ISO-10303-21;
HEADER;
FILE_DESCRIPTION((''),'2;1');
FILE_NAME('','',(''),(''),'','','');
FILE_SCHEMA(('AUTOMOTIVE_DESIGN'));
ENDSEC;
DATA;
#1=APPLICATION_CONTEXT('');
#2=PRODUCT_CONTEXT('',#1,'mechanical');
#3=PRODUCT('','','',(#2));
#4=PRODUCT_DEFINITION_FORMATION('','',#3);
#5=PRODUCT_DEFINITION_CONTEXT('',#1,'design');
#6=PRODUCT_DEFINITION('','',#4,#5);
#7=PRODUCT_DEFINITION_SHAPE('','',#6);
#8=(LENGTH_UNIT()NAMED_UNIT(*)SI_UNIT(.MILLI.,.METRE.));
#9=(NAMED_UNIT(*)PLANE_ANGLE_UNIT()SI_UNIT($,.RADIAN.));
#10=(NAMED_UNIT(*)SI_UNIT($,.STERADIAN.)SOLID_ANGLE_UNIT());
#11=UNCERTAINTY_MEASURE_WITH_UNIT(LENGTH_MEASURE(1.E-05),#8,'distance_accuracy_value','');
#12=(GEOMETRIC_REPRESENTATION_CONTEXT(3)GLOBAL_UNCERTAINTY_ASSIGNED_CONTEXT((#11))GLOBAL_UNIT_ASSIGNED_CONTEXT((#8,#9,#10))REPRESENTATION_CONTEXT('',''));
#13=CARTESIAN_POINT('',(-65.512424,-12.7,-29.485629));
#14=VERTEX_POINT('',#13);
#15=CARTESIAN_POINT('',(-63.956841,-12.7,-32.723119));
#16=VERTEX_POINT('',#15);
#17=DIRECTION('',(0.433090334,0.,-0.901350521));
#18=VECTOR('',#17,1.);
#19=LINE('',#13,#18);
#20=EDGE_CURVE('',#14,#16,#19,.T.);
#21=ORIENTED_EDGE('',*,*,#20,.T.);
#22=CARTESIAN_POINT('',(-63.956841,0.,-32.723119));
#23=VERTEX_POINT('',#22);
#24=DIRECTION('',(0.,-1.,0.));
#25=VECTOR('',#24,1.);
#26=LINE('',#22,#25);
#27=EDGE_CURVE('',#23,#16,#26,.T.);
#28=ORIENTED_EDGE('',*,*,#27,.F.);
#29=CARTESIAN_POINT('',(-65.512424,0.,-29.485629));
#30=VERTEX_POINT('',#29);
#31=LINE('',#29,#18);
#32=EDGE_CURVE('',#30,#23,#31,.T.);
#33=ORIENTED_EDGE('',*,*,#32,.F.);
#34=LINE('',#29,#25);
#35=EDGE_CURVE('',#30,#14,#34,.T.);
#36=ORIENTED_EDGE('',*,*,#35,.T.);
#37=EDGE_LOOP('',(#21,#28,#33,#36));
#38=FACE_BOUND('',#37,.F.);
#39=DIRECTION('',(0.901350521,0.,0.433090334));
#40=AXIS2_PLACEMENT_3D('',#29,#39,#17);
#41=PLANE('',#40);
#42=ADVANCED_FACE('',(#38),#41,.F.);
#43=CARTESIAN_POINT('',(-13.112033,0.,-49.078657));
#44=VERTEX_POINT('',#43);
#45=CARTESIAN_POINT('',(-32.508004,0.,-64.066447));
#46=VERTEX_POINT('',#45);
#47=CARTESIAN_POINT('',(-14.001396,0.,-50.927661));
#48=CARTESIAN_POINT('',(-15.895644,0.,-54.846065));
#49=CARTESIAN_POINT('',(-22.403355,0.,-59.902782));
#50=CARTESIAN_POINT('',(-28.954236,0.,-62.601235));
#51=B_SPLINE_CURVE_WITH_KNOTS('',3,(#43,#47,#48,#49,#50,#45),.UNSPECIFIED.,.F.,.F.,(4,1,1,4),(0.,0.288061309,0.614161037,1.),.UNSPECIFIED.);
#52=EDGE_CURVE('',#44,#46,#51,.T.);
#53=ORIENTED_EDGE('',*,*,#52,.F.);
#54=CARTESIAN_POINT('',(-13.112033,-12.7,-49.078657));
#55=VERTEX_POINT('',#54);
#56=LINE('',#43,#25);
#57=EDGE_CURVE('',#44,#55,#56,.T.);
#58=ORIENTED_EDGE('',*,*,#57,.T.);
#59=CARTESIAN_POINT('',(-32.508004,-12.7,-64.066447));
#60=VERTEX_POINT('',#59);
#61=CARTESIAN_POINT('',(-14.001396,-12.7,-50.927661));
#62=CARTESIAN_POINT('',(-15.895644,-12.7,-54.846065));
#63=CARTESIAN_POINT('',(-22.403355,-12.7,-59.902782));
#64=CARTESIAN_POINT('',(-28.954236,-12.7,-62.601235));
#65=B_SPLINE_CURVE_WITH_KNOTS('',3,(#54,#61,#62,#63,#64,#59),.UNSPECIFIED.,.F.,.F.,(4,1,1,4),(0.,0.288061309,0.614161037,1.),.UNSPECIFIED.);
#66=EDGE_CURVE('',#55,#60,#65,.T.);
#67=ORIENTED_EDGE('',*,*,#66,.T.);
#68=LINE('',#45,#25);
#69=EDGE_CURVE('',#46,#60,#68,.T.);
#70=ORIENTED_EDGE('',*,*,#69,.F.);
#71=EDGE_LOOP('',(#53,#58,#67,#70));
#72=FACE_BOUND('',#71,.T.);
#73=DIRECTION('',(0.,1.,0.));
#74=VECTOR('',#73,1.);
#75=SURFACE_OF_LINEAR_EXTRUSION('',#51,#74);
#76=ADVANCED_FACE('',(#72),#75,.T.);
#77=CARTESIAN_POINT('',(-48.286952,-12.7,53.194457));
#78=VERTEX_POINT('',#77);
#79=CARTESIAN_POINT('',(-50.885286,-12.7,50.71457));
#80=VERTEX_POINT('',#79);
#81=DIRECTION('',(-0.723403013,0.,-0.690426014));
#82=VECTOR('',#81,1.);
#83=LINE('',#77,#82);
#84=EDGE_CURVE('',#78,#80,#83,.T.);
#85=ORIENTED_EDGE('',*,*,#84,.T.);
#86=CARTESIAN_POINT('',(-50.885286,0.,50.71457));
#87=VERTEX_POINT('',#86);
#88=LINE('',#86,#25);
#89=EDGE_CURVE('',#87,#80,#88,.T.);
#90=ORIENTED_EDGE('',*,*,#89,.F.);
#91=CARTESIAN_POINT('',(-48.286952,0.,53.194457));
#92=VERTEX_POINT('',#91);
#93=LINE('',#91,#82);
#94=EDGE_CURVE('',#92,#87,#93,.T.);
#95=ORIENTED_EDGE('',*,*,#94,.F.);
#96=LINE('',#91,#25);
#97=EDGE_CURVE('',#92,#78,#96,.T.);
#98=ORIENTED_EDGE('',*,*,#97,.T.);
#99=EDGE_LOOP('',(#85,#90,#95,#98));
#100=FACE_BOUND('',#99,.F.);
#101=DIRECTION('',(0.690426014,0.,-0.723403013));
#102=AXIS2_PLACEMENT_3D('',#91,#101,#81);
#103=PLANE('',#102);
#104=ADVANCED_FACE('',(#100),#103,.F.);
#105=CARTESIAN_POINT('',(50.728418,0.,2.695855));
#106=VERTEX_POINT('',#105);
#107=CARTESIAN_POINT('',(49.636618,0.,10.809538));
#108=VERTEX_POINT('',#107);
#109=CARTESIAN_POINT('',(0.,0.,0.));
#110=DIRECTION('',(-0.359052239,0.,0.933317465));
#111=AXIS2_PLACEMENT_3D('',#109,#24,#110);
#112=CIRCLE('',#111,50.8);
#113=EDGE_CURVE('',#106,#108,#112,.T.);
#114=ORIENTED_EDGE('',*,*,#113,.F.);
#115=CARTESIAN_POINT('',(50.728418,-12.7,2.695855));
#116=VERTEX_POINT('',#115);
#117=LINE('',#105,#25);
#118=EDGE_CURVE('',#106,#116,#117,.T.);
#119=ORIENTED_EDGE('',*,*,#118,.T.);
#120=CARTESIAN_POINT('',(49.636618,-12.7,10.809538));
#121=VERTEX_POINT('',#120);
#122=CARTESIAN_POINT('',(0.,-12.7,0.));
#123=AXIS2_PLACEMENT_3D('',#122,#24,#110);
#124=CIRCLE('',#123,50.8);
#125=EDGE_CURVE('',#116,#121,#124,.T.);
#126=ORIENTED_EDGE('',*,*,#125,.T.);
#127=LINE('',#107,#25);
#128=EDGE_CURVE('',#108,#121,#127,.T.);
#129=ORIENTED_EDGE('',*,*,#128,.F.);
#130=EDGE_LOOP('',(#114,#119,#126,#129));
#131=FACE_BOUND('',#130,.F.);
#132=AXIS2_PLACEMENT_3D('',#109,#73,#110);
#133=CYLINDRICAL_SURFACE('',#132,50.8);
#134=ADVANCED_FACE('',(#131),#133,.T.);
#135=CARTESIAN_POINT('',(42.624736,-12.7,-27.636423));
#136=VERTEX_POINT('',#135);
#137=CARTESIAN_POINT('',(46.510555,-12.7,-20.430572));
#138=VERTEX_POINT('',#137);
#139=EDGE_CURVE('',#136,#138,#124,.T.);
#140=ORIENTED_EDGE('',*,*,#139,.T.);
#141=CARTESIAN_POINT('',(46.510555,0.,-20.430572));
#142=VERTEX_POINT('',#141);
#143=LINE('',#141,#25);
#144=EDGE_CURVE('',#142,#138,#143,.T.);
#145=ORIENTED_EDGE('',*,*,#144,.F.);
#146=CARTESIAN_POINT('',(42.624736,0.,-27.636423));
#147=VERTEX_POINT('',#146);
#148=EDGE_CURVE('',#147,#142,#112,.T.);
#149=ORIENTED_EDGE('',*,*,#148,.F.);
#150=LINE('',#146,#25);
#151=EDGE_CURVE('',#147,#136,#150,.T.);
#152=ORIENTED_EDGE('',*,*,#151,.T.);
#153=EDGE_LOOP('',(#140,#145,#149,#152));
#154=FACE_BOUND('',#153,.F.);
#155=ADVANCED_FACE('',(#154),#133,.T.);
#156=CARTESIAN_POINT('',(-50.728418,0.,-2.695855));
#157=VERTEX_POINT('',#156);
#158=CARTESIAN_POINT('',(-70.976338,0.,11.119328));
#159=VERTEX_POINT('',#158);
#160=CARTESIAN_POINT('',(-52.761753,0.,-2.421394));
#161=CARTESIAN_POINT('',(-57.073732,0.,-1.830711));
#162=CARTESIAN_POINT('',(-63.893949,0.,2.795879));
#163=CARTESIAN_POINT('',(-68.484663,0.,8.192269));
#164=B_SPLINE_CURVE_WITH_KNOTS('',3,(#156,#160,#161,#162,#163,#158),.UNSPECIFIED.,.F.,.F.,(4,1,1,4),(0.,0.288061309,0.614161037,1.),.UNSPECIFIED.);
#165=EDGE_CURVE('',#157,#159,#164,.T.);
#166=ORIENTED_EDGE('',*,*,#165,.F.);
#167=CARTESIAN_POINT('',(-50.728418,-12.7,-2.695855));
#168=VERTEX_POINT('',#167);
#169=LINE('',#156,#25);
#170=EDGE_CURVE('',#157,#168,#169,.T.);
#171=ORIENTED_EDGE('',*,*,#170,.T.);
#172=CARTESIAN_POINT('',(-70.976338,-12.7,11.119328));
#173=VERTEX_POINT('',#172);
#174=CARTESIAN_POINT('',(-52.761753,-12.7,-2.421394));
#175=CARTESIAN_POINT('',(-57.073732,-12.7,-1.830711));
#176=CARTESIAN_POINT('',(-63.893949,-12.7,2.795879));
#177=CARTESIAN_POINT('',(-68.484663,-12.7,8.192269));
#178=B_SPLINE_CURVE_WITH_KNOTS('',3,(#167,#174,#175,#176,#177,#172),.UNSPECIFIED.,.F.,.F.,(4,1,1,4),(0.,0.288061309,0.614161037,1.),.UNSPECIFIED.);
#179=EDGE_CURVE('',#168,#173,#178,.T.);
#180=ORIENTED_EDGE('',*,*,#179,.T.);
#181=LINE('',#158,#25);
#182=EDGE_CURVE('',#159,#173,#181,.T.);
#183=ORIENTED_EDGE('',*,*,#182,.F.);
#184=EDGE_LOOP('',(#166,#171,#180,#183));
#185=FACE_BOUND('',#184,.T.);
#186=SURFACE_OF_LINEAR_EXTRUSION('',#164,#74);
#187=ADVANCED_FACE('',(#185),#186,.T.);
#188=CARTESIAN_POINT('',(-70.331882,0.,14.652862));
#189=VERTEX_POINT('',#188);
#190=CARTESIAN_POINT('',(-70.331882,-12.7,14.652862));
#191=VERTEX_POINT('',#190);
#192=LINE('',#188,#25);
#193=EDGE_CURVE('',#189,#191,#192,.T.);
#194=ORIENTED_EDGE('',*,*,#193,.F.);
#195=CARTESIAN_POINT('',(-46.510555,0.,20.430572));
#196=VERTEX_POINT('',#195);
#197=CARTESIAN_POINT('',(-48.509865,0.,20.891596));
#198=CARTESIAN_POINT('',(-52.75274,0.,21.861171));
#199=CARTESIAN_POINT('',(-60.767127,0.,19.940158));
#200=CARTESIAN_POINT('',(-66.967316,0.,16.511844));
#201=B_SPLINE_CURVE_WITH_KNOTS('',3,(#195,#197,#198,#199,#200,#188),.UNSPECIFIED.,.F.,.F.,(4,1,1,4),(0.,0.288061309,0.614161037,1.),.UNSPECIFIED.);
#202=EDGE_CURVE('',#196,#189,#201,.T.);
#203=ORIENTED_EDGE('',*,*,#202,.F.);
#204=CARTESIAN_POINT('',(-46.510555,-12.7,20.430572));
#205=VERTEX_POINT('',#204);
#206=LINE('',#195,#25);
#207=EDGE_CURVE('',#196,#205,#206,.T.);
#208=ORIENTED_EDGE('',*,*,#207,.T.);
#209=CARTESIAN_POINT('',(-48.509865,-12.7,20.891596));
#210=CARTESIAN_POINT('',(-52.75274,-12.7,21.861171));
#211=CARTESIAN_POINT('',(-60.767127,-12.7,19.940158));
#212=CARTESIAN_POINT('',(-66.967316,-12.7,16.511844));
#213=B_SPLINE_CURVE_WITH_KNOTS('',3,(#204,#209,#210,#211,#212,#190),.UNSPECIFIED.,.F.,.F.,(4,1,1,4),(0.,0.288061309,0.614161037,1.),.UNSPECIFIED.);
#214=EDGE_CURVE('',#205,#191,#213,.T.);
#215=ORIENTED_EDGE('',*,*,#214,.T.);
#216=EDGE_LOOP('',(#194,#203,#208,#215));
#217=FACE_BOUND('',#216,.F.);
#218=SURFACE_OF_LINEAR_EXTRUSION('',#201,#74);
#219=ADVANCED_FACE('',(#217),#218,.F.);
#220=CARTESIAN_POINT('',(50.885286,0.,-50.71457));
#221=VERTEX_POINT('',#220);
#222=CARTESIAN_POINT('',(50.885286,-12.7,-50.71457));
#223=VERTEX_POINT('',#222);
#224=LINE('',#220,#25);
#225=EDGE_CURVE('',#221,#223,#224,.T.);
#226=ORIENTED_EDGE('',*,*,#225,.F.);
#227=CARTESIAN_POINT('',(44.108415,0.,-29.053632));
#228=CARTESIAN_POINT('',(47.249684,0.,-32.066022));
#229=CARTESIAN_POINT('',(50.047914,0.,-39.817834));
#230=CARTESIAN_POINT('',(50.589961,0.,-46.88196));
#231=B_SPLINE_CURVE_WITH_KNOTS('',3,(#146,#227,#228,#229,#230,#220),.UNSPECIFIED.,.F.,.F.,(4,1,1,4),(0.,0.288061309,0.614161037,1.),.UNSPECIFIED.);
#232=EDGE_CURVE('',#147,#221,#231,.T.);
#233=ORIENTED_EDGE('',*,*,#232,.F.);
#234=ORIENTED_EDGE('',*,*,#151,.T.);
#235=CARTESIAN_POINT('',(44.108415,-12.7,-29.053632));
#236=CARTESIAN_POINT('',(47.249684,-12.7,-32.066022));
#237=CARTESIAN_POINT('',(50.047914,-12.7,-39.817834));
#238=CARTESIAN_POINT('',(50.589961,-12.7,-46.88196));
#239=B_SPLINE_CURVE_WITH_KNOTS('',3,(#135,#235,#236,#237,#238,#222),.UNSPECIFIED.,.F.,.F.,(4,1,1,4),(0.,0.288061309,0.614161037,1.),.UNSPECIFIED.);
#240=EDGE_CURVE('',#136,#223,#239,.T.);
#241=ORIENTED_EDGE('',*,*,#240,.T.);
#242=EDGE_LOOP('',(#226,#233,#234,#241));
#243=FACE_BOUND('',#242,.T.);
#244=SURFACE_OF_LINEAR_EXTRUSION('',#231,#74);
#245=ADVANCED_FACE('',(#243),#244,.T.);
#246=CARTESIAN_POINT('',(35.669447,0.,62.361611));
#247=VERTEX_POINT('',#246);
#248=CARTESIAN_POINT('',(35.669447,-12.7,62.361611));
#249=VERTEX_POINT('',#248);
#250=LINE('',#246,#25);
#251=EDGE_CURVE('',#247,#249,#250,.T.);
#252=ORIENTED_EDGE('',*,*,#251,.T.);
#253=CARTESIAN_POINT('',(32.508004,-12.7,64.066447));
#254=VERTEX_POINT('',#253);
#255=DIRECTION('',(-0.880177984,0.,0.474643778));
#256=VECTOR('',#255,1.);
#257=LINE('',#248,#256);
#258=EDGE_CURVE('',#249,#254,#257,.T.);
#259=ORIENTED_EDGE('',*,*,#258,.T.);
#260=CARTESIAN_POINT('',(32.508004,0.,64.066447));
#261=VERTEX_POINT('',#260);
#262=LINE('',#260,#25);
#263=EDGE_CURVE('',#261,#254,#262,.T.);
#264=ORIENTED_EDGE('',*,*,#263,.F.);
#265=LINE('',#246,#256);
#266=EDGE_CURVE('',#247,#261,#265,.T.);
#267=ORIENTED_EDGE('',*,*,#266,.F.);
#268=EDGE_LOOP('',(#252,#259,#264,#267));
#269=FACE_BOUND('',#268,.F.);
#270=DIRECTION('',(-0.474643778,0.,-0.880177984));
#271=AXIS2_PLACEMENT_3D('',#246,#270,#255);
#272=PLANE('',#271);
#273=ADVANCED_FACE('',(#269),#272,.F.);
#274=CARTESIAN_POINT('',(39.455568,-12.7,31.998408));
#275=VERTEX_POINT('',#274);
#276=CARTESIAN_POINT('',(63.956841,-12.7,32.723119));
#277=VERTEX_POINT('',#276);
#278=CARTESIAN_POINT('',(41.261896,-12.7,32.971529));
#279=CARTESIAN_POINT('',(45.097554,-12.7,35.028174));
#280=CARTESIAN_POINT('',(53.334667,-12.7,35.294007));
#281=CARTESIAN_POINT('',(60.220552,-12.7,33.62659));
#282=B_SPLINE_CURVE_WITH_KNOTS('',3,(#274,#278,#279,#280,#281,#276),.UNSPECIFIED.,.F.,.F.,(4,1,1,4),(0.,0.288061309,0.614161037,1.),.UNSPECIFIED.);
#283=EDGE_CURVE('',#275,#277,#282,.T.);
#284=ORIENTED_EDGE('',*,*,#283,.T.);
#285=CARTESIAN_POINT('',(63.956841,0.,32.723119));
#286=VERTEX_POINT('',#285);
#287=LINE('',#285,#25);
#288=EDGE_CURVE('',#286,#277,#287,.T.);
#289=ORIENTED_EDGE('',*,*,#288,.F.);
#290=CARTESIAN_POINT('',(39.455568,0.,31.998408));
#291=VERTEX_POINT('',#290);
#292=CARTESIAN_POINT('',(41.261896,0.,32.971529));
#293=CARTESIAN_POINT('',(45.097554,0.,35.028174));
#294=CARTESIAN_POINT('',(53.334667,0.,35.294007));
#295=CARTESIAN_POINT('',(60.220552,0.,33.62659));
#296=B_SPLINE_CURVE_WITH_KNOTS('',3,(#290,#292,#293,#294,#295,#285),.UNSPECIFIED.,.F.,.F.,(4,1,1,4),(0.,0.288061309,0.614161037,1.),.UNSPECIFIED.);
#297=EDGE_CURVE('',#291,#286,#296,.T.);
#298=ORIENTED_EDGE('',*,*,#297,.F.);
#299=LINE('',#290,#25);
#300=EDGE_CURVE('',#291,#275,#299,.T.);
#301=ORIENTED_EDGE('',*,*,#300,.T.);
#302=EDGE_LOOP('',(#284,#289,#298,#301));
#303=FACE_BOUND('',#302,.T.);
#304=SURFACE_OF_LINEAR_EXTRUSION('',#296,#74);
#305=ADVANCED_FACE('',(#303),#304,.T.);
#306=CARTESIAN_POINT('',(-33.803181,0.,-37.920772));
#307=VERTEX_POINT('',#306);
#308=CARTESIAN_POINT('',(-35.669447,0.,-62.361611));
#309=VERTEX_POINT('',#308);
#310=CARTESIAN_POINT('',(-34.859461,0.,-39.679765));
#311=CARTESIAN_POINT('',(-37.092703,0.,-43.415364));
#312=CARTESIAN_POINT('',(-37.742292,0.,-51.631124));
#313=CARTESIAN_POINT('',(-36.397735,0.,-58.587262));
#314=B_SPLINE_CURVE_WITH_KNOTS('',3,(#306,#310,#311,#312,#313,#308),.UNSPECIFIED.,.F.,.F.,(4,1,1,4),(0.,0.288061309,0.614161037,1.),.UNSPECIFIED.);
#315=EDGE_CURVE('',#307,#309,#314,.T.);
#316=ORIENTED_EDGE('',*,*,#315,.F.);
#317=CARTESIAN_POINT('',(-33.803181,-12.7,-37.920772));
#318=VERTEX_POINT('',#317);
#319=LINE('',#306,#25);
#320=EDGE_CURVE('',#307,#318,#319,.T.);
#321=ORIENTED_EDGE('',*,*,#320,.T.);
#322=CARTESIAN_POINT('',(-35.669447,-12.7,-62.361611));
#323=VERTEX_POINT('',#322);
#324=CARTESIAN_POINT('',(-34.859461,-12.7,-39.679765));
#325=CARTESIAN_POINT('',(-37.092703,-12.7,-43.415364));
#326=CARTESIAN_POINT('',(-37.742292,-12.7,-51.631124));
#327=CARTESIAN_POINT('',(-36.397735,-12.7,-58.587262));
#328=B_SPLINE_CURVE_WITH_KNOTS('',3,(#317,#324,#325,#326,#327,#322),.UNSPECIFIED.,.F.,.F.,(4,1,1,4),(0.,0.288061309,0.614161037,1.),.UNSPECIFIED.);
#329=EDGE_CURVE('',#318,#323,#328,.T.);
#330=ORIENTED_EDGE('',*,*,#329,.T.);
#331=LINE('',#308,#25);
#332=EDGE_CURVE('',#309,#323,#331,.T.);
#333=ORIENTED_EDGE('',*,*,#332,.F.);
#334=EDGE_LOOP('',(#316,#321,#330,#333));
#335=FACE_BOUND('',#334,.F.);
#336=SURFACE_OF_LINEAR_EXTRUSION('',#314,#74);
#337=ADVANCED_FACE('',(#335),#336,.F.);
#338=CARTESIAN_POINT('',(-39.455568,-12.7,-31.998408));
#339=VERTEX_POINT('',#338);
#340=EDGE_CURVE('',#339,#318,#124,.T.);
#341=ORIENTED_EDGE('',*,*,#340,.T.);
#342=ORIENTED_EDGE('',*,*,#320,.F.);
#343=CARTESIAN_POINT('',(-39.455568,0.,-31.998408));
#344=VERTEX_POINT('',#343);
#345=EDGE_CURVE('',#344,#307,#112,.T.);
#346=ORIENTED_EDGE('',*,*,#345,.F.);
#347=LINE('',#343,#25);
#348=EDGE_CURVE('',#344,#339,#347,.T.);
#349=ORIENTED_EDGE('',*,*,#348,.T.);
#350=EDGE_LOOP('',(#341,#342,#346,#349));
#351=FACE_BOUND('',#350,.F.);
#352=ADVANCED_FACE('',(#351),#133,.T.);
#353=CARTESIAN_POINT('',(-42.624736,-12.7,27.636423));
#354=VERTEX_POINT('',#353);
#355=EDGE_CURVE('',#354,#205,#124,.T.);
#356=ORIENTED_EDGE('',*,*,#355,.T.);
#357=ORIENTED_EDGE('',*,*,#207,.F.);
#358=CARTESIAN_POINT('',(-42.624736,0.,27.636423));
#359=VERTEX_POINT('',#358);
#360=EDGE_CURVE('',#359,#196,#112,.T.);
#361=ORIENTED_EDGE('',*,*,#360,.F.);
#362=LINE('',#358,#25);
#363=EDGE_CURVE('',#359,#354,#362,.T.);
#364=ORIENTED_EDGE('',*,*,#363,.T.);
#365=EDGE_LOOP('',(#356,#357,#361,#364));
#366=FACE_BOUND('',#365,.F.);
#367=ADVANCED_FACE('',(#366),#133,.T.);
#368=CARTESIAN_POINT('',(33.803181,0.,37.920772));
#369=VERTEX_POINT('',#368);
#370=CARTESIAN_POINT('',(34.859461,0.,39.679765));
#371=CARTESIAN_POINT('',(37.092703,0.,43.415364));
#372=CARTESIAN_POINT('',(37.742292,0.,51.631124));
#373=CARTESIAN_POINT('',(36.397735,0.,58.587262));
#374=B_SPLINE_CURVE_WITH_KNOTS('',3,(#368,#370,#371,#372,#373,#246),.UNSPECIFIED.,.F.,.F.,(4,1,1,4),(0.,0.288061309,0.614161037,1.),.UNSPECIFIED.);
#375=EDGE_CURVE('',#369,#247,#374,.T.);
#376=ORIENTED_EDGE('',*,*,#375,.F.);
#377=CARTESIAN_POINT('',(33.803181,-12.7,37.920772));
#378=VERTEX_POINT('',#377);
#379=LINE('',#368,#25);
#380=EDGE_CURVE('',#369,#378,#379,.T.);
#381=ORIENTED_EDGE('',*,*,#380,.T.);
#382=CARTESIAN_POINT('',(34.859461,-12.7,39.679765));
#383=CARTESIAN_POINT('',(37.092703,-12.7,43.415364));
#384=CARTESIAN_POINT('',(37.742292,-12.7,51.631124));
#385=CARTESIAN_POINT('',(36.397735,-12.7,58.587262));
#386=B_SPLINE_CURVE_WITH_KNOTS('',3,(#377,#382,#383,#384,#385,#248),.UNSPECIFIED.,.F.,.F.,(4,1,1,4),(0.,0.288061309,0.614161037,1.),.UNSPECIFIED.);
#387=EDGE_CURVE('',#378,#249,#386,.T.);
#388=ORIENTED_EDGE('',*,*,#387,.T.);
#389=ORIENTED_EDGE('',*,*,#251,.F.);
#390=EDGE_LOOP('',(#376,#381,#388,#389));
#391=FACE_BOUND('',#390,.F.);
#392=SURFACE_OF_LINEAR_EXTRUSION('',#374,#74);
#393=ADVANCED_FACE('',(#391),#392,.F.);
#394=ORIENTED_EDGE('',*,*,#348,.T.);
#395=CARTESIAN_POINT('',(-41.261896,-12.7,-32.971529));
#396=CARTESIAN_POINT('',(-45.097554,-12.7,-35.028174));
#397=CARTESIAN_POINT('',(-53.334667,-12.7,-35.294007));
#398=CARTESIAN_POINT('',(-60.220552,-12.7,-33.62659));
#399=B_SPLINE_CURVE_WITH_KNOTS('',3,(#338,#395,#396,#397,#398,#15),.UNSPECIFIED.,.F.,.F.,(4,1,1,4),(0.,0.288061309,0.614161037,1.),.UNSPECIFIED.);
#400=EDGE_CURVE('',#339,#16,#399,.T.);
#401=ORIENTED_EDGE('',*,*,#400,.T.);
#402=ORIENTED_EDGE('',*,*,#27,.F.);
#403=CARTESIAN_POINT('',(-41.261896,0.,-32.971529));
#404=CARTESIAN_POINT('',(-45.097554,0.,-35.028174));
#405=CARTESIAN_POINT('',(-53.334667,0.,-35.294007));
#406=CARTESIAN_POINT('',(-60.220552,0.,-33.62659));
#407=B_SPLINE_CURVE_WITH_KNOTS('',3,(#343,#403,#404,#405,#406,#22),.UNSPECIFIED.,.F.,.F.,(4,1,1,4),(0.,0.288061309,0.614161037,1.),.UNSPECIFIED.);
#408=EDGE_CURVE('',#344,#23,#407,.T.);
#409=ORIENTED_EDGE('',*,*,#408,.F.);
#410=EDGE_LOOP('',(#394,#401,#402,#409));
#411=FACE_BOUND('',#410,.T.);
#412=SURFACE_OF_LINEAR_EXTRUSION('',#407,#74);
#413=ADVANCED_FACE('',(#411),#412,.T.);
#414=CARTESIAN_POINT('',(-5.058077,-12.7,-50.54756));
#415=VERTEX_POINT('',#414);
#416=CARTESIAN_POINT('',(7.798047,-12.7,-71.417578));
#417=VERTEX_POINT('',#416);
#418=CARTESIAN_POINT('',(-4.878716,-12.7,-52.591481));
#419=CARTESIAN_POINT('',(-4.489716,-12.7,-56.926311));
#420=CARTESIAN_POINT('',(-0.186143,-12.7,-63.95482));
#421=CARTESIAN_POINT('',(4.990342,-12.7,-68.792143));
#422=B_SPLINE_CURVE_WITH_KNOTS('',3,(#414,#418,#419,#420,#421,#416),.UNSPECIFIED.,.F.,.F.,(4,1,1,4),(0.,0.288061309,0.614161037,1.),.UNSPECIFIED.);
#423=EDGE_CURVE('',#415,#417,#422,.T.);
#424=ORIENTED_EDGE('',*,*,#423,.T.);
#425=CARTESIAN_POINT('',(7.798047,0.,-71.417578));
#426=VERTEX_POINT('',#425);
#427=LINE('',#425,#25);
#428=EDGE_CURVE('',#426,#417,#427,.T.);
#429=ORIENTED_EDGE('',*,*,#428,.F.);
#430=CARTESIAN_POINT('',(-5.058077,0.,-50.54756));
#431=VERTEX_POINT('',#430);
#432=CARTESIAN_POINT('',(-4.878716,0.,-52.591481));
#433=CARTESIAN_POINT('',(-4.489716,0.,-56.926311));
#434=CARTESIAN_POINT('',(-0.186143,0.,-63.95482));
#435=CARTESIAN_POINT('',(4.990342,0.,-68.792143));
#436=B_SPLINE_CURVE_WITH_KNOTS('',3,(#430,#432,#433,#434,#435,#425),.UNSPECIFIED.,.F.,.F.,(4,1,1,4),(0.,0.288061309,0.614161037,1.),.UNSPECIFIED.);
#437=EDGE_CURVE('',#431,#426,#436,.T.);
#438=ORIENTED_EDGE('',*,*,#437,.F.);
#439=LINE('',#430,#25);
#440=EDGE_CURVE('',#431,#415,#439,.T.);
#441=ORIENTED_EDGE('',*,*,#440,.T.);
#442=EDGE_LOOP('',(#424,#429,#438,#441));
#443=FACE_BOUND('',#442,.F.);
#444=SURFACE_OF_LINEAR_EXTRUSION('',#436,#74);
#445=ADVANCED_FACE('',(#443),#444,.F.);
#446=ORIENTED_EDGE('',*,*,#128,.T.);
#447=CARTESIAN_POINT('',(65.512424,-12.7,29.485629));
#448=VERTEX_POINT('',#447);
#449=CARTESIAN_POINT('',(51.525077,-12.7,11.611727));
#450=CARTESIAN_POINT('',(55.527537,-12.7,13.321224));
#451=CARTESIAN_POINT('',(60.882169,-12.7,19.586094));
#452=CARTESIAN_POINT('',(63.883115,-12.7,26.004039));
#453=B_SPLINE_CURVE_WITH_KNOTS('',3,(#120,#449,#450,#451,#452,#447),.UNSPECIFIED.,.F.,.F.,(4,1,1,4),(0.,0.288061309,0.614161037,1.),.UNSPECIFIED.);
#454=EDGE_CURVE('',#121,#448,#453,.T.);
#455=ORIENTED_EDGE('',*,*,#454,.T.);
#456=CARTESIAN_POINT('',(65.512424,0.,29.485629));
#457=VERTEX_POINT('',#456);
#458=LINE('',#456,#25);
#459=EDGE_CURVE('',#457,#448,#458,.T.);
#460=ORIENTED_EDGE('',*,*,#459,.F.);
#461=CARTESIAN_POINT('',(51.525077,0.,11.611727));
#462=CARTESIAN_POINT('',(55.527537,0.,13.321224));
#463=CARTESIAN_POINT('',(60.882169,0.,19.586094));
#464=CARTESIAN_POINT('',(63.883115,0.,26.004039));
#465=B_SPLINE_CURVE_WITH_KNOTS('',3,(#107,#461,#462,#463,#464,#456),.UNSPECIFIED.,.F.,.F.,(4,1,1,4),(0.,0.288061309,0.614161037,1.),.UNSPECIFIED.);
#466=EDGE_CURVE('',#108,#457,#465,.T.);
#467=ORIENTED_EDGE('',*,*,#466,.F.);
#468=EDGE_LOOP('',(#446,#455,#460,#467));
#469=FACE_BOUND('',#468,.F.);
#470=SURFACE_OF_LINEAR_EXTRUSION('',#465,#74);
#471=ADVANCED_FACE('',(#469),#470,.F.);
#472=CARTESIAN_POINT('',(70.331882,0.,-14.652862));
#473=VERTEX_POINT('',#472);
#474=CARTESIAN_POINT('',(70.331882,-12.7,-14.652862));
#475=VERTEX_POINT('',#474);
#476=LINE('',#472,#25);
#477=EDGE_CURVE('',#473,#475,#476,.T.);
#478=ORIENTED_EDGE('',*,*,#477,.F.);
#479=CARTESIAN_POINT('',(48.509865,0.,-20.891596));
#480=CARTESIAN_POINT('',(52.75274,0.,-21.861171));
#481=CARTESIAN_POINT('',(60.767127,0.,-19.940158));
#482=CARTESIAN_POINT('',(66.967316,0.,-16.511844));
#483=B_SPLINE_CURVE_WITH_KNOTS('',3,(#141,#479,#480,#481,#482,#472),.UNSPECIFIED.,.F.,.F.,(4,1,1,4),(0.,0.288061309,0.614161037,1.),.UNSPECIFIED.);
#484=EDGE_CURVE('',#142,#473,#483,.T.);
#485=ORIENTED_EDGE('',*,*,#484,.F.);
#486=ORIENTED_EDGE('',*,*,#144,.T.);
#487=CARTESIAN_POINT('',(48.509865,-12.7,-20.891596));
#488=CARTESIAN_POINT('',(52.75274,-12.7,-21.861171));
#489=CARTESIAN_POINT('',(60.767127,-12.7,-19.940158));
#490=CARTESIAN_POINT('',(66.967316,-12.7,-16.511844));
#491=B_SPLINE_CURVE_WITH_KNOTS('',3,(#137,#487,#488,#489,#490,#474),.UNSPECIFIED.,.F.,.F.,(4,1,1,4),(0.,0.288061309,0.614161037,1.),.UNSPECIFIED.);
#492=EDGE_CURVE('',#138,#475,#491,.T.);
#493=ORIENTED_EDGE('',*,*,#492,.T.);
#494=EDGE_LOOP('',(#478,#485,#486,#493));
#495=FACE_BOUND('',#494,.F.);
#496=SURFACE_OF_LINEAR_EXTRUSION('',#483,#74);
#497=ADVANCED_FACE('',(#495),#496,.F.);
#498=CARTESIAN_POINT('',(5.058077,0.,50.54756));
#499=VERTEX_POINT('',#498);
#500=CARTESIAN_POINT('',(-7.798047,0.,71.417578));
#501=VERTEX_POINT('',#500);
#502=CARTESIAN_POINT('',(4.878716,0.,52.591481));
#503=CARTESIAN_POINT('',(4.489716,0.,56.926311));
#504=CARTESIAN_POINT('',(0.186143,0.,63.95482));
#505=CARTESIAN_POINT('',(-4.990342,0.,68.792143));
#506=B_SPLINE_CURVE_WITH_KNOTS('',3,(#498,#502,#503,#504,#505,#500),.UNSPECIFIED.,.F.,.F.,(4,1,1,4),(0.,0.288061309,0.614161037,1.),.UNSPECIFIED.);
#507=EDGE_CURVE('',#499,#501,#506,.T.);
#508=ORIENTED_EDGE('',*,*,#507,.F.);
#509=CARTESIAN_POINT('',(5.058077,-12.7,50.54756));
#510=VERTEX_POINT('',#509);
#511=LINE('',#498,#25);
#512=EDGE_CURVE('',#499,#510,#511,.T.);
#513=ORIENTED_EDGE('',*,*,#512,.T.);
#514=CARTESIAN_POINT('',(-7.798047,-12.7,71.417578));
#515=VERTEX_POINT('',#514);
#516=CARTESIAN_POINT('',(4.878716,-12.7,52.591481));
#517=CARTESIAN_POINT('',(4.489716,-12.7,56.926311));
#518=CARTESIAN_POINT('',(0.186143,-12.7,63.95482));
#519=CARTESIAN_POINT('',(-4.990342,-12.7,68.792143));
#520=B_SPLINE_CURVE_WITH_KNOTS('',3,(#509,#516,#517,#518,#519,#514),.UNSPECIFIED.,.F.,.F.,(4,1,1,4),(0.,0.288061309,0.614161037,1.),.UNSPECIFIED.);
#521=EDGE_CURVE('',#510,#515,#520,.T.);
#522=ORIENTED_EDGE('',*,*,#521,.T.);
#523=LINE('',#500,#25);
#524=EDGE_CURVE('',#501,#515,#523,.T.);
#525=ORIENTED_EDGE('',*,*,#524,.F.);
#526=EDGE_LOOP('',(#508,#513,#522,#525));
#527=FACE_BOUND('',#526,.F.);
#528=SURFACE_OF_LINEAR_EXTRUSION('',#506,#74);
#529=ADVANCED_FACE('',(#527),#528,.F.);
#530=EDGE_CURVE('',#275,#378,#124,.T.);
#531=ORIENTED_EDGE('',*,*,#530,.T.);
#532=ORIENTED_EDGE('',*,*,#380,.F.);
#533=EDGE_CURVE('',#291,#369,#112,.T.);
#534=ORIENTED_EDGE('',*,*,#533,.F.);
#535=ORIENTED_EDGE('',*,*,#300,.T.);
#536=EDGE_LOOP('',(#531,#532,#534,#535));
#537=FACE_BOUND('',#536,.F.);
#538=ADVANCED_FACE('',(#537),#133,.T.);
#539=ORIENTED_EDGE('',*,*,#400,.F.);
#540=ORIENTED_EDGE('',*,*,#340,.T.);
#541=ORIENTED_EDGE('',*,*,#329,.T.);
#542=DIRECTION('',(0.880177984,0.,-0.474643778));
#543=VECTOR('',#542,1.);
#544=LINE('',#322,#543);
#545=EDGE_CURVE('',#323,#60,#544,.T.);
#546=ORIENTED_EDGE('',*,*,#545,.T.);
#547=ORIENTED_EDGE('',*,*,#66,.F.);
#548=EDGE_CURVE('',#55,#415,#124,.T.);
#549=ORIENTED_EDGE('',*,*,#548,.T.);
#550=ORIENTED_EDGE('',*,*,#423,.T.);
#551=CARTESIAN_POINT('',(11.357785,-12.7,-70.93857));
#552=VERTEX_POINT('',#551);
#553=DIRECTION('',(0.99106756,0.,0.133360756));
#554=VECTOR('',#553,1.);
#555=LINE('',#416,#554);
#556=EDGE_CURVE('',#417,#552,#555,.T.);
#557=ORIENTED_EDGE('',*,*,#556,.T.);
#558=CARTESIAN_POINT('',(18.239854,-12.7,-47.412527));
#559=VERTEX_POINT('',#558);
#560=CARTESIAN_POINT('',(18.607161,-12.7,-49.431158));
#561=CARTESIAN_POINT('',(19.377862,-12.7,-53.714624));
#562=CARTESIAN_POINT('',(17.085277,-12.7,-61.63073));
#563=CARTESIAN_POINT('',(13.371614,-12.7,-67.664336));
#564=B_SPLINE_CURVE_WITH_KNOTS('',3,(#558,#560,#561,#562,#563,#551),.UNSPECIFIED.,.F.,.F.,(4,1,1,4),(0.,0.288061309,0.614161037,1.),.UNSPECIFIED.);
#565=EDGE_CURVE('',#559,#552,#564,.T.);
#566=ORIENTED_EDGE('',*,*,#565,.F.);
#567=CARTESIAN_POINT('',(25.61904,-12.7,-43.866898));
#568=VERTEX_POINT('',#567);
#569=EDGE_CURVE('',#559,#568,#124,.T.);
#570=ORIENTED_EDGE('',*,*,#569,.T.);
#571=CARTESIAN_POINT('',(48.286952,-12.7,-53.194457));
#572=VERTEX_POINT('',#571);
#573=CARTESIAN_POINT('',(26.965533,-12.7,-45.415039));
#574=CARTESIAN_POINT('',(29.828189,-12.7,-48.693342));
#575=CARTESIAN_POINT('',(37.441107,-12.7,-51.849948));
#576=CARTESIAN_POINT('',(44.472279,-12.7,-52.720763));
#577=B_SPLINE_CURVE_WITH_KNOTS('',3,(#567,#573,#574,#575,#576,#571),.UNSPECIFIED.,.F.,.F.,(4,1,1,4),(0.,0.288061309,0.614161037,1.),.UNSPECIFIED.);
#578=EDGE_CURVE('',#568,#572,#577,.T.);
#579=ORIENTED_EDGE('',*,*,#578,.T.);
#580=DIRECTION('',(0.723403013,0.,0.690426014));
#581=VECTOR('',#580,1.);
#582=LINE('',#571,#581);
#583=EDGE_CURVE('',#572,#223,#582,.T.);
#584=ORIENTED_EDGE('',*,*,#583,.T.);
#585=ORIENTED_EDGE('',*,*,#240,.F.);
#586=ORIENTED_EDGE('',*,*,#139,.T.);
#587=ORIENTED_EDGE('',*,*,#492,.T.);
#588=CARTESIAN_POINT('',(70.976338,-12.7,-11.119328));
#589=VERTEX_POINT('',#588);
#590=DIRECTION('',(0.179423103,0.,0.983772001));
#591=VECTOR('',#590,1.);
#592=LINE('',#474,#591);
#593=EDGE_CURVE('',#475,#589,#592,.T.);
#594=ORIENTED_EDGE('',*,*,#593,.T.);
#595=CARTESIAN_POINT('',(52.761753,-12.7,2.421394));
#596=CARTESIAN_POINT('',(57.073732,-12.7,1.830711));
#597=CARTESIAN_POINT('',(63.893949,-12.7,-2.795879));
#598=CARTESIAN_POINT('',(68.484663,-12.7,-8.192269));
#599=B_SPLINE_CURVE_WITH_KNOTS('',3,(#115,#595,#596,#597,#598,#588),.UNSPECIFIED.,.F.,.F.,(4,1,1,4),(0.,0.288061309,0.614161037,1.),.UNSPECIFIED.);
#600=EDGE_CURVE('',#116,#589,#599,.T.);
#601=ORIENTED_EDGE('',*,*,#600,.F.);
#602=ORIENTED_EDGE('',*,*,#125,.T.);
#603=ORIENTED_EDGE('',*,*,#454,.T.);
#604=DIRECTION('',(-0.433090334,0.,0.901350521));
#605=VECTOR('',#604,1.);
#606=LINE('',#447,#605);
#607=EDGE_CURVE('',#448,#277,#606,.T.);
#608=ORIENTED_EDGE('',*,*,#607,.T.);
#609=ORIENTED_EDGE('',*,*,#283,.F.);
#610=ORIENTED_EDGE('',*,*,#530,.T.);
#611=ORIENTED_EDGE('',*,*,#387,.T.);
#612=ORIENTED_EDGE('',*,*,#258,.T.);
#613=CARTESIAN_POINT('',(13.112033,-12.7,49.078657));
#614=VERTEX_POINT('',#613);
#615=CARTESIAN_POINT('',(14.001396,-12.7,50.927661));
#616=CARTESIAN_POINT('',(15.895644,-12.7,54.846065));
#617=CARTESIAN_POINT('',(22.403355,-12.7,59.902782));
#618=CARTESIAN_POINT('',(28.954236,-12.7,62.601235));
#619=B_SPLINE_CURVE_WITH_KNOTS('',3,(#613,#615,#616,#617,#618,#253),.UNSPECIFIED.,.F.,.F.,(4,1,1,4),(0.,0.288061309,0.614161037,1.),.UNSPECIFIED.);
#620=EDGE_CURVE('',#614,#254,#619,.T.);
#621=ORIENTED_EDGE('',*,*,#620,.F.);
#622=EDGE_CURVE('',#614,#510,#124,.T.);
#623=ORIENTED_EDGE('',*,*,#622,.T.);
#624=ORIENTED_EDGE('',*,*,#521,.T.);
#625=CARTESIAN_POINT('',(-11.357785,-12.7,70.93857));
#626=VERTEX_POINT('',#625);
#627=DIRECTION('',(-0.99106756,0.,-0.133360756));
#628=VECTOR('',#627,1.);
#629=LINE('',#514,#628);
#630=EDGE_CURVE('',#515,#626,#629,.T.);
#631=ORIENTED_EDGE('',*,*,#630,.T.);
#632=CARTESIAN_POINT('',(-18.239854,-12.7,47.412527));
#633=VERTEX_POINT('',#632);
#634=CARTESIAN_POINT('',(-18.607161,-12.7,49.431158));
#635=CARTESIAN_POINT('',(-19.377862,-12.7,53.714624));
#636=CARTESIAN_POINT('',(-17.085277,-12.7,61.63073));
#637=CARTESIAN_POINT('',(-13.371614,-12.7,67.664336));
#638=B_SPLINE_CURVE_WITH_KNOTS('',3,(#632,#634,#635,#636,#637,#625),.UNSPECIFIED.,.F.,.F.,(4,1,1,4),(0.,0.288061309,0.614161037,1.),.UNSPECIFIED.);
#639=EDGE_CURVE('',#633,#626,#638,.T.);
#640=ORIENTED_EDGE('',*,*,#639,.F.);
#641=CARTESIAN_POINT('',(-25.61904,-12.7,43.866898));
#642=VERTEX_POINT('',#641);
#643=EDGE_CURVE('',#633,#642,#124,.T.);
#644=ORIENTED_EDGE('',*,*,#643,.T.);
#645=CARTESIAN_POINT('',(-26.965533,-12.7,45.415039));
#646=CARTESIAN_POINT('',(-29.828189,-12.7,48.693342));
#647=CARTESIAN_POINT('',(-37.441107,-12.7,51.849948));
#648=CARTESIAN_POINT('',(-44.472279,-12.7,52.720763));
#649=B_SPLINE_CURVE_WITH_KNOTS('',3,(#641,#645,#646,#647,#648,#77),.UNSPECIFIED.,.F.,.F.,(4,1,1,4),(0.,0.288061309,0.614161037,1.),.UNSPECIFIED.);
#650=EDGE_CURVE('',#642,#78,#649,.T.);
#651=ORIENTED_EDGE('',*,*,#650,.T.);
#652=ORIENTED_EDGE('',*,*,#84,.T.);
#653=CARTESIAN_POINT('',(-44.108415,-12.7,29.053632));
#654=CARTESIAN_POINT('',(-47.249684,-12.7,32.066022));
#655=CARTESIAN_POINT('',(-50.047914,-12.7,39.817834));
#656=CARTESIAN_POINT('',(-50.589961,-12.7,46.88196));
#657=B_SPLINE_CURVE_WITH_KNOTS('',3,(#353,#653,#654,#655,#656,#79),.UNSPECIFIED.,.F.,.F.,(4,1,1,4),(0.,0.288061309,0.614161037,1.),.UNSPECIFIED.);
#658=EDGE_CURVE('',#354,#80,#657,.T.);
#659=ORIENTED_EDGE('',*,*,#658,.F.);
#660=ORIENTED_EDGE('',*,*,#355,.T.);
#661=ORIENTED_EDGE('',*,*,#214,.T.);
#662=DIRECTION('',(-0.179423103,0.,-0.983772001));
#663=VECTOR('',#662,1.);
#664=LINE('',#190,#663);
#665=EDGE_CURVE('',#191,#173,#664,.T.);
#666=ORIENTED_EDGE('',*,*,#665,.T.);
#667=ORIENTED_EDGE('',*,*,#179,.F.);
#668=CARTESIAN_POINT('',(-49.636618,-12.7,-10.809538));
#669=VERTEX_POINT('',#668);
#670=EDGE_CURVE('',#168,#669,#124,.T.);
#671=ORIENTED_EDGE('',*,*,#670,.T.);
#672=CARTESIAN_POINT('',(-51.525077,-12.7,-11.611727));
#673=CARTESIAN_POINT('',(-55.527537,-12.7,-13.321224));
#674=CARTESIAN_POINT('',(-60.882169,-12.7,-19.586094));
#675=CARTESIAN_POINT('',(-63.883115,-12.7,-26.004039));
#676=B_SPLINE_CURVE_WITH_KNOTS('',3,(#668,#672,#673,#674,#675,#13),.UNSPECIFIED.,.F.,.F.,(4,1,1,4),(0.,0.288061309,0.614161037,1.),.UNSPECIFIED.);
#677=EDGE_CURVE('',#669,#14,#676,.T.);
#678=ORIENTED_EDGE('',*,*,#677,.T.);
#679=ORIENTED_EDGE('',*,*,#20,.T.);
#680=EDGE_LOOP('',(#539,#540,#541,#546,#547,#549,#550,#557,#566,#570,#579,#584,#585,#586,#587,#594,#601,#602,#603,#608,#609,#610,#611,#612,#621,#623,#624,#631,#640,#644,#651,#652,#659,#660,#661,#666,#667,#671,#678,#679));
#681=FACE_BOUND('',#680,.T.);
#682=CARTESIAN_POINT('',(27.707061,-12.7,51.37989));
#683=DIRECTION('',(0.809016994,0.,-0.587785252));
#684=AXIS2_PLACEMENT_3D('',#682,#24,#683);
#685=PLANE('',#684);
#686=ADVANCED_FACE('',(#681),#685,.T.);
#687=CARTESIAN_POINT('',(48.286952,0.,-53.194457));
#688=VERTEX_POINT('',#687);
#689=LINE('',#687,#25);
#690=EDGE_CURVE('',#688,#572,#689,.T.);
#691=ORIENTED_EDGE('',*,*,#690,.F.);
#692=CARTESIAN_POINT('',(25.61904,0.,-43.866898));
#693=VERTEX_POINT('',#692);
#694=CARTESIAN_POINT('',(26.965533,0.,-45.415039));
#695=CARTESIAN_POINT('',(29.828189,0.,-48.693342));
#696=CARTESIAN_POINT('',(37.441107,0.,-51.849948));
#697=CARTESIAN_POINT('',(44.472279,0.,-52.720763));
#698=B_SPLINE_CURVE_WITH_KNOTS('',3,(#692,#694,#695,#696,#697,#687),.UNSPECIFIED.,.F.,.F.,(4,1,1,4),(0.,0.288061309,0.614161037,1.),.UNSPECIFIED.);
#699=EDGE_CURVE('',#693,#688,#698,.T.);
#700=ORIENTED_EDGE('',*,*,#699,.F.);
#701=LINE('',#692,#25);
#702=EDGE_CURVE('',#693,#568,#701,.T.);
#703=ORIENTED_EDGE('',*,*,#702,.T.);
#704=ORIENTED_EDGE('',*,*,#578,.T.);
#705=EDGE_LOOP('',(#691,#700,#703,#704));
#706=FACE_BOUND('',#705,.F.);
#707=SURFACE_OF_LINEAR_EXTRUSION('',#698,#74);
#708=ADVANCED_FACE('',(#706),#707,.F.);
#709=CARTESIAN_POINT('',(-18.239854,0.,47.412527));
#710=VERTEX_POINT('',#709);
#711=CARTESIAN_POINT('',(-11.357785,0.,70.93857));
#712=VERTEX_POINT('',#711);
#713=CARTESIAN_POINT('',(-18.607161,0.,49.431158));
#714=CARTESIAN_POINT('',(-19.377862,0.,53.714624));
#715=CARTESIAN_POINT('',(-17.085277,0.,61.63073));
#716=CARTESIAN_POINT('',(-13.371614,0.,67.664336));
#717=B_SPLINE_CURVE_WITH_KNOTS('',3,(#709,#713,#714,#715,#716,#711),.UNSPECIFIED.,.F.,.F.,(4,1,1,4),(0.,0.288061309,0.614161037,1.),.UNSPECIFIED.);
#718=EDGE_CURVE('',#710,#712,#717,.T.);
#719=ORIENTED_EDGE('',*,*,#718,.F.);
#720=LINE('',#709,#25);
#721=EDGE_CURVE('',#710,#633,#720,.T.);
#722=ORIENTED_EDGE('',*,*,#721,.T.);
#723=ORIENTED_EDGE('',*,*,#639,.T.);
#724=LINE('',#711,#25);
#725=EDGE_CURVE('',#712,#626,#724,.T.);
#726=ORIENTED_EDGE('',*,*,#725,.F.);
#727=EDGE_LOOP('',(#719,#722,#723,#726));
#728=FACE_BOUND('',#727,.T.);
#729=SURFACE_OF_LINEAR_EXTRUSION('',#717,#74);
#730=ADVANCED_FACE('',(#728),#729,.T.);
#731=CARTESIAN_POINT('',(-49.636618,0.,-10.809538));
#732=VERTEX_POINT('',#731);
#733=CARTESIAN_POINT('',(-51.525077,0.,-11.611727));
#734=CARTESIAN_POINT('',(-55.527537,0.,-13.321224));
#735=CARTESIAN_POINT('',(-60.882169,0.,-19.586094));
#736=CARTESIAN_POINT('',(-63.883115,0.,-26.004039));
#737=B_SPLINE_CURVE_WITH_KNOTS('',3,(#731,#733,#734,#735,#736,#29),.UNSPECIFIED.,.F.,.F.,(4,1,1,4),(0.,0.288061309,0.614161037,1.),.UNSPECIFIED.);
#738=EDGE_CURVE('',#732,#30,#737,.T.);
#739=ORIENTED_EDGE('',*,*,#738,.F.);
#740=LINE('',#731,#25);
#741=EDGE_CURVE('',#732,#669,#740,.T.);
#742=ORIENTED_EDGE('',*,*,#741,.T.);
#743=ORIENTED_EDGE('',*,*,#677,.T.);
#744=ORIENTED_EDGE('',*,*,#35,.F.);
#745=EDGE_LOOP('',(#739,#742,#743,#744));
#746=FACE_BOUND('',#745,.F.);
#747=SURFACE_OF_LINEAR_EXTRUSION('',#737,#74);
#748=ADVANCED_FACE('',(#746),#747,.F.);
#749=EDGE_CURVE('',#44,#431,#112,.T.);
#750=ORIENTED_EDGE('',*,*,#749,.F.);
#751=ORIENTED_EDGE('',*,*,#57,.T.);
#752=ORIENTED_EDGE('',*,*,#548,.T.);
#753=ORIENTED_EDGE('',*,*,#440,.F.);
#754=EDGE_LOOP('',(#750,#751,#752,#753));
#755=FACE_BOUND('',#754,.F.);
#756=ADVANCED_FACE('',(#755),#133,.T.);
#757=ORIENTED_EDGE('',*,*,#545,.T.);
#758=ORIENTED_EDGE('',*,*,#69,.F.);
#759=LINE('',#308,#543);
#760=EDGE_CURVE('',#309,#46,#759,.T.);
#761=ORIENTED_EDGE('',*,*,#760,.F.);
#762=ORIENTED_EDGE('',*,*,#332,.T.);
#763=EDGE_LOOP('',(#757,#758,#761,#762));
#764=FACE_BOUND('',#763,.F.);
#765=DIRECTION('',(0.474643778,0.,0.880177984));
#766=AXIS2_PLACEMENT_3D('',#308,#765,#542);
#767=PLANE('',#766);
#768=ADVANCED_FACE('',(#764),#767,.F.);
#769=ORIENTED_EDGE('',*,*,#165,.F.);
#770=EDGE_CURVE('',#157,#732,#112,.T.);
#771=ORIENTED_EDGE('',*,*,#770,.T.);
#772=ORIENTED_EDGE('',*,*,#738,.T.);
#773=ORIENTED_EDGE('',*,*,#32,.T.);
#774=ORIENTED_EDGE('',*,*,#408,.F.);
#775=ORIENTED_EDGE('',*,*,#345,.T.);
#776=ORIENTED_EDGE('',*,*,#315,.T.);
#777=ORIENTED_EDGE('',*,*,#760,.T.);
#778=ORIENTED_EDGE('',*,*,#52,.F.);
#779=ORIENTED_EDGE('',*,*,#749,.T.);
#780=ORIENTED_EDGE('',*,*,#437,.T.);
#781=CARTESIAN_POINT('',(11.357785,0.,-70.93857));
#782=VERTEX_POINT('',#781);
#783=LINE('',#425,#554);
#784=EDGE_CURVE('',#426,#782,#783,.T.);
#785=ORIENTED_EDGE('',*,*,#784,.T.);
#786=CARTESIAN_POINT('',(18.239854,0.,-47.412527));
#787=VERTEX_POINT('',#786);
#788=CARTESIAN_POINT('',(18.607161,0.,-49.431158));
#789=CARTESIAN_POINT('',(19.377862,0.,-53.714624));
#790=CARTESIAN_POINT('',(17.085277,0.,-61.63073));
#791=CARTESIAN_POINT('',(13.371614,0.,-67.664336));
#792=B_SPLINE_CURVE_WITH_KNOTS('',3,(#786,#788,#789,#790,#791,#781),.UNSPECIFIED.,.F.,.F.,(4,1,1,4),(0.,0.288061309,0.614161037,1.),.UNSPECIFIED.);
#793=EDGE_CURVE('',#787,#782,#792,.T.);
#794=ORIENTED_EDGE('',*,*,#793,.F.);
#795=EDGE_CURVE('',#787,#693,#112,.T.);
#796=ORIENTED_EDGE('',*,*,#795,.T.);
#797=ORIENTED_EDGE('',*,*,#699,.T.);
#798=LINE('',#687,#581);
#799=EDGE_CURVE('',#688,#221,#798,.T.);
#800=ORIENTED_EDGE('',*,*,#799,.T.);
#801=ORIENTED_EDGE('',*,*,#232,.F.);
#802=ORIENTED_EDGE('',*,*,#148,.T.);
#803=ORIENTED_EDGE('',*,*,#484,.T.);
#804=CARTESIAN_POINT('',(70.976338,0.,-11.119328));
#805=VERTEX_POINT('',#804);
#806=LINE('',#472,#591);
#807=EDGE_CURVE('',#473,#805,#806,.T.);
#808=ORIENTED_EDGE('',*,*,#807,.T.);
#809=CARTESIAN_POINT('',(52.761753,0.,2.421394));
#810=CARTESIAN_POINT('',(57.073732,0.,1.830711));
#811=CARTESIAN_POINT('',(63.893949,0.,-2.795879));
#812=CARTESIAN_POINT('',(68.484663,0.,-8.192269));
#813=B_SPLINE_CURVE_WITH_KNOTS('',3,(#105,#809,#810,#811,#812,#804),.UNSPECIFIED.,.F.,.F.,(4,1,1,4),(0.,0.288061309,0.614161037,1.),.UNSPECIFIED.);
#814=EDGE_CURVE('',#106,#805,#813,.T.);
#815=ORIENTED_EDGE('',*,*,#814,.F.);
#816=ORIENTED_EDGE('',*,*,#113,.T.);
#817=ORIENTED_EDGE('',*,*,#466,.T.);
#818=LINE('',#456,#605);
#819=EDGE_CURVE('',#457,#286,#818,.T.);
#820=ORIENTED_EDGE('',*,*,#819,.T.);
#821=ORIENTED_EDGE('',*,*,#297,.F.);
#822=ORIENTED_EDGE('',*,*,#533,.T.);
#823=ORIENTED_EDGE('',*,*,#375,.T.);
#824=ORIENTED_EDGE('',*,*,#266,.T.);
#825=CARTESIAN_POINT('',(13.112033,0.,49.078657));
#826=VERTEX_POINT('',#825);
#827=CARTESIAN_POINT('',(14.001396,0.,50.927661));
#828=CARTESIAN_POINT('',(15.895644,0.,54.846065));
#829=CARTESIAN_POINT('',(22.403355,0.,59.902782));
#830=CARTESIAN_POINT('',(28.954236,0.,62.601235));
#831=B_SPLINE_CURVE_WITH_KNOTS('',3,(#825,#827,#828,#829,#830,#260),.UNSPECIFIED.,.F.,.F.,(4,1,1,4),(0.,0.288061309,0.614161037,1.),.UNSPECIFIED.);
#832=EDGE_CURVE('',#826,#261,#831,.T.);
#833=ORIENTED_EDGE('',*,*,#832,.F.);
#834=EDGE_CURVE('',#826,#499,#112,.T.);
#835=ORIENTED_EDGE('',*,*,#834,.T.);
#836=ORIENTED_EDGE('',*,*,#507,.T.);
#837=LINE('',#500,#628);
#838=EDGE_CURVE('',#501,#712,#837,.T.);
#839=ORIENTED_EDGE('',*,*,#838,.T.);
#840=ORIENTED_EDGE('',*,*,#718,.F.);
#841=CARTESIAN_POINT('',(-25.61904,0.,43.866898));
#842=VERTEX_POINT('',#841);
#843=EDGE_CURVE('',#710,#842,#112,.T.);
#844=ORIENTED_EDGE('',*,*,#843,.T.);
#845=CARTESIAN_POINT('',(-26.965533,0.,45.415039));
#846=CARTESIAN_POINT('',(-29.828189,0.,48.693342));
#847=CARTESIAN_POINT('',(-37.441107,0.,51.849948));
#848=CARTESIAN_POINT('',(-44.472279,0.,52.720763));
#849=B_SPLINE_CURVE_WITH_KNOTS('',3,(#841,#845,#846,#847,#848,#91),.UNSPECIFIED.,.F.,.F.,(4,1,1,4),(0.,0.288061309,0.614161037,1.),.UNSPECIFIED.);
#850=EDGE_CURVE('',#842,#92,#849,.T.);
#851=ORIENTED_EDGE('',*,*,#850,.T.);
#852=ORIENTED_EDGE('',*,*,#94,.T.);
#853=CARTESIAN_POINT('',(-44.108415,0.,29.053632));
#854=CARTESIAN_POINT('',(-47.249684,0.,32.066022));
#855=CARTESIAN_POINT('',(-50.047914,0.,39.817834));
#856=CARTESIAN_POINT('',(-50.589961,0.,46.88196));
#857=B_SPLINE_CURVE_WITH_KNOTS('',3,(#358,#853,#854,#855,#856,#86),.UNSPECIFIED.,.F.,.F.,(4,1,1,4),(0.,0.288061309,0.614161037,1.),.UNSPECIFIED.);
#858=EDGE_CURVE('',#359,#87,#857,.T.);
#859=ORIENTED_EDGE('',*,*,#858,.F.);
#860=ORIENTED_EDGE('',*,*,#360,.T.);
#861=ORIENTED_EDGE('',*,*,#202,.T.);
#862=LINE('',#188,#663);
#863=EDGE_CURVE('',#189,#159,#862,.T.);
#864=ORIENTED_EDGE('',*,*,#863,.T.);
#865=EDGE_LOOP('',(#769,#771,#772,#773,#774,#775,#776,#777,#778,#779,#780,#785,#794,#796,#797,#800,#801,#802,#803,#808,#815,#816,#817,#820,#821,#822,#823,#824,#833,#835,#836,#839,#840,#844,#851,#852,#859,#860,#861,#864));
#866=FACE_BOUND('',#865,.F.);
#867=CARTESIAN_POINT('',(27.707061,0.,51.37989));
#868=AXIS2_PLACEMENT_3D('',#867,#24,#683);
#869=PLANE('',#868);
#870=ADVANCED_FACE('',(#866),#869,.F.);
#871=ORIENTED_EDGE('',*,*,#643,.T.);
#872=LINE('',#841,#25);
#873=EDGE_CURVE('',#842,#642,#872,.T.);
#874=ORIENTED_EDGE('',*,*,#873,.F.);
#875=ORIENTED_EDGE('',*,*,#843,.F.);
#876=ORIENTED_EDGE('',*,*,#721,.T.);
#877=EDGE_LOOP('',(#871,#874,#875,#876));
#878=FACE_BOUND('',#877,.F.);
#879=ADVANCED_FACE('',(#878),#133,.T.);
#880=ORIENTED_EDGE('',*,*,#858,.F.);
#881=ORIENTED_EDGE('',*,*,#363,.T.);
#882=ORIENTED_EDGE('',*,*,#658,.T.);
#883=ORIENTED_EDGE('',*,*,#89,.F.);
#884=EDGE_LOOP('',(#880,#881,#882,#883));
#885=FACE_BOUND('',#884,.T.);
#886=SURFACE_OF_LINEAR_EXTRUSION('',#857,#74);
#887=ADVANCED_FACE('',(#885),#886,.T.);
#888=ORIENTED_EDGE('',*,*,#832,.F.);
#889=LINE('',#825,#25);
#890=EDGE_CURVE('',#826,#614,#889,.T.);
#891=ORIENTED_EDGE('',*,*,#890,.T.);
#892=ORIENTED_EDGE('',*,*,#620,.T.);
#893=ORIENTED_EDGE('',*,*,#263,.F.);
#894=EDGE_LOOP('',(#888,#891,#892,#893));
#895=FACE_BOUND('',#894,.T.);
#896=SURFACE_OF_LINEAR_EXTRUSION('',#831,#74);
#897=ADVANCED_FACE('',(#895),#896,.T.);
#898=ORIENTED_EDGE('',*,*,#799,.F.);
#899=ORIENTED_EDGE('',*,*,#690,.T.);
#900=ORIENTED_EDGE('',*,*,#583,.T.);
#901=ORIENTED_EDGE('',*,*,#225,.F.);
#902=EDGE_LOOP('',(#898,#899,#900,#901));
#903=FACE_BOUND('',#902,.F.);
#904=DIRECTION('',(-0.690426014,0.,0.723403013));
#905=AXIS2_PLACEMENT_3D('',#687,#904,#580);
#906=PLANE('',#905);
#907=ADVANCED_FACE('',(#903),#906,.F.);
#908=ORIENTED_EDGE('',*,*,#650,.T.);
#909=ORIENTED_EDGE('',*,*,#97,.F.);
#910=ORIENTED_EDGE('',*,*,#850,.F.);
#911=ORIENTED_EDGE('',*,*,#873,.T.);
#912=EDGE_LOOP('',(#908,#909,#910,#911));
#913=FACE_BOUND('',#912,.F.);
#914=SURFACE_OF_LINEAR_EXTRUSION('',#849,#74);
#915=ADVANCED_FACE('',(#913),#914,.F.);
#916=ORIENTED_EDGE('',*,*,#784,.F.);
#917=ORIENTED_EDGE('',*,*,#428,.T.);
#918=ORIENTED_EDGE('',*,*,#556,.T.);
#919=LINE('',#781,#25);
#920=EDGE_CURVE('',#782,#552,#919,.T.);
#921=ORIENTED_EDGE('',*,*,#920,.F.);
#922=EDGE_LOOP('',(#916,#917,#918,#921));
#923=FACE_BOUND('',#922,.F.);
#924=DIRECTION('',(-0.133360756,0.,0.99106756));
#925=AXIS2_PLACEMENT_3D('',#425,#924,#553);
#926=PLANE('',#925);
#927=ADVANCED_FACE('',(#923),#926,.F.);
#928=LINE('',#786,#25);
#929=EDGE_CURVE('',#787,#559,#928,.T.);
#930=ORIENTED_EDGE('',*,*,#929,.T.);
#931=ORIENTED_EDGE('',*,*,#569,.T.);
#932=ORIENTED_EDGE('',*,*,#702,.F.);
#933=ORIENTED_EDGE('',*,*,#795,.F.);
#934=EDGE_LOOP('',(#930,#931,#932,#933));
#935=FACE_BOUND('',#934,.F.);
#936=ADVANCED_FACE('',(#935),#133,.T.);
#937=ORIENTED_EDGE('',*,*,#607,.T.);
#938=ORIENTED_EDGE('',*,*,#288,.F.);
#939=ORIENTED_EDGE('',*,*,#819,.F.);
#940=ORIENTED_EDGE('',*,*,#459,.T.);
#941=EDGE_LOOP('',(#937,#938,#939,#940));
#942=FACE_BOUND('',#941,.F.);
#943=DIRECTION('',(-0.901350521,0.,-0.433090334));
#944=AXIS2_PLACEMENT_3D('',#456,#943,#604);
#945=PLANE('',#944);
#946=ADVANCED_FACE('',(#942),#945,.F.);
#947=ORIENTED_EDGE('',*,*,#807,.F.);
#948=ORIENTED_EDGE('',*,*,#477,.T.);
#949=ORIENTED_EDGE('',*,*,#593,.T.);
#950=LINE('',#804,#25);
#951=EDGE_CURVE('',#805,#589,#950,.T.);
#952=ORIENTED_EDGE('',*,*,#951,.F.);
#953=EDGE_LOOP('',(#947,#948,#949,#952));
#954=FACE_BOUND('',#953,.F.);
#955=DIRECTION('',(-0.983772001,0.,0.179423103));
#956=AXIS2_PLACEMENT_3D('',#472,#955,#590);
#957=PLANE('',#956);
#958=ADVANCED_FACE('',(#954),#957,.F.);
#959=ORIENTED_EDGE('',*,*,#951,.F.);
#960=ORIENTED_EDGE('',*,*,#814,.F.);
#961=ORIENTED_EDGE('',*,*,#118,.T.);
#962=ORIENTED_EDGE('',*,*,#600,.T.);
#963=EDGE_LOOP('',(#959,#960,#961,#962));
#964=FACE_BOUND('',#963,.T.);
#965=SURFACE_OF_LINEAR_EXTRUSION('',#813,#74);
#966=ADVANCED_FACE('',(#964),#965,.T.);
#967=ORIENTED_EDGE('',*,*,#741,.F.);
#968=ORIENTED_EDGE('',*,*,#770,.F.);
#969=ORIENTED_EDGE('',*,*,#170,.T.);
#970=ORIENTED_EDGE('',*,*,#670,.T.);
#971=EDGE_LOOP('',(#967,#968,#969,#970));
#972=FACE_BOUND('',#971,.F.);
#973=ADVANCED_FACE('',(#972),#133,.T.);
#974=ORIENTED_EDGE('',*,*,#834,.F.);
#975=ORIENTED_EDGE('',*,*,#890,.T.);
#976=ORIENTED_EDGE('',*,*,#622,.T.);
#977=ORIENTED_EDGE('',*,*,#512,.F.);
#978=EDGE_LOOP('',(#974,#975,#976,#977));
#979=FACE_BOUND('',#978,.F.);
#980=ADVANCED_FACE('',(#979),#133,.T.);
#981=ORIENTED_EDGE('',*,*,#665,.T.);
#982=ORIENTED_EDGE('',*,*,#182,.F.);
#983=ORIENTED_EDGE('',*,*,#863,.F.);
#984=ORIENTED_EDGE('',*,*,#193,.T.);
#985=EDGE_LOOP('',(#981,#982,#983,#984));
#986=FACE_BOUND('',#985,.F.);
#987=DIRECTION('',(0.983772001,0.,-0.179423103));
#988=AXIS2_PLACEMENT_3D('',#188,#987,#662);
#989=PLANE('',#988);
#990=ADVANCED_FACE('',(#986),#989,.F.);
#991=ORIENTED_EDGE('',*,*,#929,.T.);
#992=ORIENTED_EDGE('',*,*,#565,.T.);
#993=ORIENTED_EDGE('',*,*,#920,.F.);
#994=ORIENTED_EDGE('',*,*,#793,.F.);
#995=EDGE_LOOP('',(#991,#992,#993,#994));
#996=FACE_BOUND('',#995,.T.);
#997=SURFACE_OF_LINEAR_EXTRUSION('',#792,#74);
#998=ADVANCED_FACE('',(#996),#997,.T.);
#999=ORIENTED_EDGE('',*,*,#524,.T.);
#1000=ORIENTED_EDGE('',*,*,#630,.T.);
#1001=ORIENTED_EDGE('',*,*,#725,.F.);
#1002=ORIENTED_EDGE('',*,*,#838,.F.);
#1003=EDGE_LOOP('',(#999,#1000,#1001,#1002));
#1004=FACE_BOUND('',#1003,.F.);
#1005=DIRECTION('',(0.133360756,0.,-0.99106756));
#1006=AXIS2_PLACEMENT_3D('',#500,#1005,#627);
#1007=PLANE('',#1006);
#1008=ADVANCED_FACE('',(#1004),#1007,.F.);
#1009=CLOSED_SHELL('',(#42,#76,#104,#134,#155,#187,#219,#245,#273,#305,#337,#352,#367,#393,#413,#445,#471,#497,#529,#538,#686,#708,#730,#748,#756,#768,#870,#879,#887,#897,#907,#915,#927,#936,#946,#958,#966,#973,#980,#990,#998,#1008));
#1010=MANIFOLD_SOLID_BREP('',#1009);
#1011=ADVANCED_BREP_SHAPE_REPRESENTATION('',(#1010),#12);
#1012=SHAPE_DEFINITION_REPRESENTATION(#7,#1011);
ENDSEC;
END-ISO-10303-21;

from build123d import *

# Parameters (mm, degrees)
F1_DEPTH = 12.7
F2_DEPTH = 12.7
F4_COUNT = 10


with BuildPart() as f1:
    # F0 (on Front) → F1 (new body)
    with BuildSketch(Plane.XZ):
        with BuildLine():
            ThreePointArc((-18.2398537228, 47.4125272072), (-28.7580895652, -41.8761541281), (50.8, 0))
            ThreePointArc((50.8, 0), (37.6668973466, 34.0858452188), (5.0580769968, 50.5475603476))
            ThreePointArc((5.0580769968, 50.5475603476), (-6.7747263864, 50.3462320575), (-18.2398537228, 47.4125272072))
        make_face()
    extrude(amount=F1_DEPTH)

    # F0 (on Front) → F2 (join, through all)
    with BuildSketch(Plane.XZ):
        with BuildLine():
            ThreePointArc((-18.2398537228, 47.4125272072), (-6.7747263864, 50.3462320575), (5.0580769968, 50.5475603476))
            add(Edge.make_bspline(
                [(5.0580769968, 50.5475603476), (4.8787158838, 52.5914812168), (4.4897162166, 56.9263105927), (0.1861426341, 63.9548196192), (-4.9903423699, 68.7921425636), (-7.7980468665, 71.4175781238)],
                knots=[0, 0, 0, 0, 0.2880613085, 0.6141610371, 1, 1, 1, 1], degree=3))
            Line((-7.7980468665, 71.4175781238), (-11.3577849389, 70.9385700538))
            add(Edge.make_bspline(
                [(-18.2398537228, 47.4125272072), (-18.6071605924, 49.4311575825), (-19.3778623389, 53.7146240849), (-17.0852769639, 61.6307302623), (-13.371613766, 67.6643358111), (-11.3577849389, 70.9385700538)],
                knots=[0, 0, 0, 0, 0.2880613085, 0.6141610371, 1, 1, 1, 1], degree=3))
        make_face()
    extrude(amount=F2_DEPTH)

    # F4: F1 ×10 about axis
    f4_axis = Axis((0, -10.3239128366, 0), (0, -1, 0))


with BuildPart() as f1_1:
    add(f1.part)
    for i in range(1, F4_COUNT):
        add(f1.part.rotate(f4_axis, i * 360 / F4_COUNT))


solid = f1_1.part
